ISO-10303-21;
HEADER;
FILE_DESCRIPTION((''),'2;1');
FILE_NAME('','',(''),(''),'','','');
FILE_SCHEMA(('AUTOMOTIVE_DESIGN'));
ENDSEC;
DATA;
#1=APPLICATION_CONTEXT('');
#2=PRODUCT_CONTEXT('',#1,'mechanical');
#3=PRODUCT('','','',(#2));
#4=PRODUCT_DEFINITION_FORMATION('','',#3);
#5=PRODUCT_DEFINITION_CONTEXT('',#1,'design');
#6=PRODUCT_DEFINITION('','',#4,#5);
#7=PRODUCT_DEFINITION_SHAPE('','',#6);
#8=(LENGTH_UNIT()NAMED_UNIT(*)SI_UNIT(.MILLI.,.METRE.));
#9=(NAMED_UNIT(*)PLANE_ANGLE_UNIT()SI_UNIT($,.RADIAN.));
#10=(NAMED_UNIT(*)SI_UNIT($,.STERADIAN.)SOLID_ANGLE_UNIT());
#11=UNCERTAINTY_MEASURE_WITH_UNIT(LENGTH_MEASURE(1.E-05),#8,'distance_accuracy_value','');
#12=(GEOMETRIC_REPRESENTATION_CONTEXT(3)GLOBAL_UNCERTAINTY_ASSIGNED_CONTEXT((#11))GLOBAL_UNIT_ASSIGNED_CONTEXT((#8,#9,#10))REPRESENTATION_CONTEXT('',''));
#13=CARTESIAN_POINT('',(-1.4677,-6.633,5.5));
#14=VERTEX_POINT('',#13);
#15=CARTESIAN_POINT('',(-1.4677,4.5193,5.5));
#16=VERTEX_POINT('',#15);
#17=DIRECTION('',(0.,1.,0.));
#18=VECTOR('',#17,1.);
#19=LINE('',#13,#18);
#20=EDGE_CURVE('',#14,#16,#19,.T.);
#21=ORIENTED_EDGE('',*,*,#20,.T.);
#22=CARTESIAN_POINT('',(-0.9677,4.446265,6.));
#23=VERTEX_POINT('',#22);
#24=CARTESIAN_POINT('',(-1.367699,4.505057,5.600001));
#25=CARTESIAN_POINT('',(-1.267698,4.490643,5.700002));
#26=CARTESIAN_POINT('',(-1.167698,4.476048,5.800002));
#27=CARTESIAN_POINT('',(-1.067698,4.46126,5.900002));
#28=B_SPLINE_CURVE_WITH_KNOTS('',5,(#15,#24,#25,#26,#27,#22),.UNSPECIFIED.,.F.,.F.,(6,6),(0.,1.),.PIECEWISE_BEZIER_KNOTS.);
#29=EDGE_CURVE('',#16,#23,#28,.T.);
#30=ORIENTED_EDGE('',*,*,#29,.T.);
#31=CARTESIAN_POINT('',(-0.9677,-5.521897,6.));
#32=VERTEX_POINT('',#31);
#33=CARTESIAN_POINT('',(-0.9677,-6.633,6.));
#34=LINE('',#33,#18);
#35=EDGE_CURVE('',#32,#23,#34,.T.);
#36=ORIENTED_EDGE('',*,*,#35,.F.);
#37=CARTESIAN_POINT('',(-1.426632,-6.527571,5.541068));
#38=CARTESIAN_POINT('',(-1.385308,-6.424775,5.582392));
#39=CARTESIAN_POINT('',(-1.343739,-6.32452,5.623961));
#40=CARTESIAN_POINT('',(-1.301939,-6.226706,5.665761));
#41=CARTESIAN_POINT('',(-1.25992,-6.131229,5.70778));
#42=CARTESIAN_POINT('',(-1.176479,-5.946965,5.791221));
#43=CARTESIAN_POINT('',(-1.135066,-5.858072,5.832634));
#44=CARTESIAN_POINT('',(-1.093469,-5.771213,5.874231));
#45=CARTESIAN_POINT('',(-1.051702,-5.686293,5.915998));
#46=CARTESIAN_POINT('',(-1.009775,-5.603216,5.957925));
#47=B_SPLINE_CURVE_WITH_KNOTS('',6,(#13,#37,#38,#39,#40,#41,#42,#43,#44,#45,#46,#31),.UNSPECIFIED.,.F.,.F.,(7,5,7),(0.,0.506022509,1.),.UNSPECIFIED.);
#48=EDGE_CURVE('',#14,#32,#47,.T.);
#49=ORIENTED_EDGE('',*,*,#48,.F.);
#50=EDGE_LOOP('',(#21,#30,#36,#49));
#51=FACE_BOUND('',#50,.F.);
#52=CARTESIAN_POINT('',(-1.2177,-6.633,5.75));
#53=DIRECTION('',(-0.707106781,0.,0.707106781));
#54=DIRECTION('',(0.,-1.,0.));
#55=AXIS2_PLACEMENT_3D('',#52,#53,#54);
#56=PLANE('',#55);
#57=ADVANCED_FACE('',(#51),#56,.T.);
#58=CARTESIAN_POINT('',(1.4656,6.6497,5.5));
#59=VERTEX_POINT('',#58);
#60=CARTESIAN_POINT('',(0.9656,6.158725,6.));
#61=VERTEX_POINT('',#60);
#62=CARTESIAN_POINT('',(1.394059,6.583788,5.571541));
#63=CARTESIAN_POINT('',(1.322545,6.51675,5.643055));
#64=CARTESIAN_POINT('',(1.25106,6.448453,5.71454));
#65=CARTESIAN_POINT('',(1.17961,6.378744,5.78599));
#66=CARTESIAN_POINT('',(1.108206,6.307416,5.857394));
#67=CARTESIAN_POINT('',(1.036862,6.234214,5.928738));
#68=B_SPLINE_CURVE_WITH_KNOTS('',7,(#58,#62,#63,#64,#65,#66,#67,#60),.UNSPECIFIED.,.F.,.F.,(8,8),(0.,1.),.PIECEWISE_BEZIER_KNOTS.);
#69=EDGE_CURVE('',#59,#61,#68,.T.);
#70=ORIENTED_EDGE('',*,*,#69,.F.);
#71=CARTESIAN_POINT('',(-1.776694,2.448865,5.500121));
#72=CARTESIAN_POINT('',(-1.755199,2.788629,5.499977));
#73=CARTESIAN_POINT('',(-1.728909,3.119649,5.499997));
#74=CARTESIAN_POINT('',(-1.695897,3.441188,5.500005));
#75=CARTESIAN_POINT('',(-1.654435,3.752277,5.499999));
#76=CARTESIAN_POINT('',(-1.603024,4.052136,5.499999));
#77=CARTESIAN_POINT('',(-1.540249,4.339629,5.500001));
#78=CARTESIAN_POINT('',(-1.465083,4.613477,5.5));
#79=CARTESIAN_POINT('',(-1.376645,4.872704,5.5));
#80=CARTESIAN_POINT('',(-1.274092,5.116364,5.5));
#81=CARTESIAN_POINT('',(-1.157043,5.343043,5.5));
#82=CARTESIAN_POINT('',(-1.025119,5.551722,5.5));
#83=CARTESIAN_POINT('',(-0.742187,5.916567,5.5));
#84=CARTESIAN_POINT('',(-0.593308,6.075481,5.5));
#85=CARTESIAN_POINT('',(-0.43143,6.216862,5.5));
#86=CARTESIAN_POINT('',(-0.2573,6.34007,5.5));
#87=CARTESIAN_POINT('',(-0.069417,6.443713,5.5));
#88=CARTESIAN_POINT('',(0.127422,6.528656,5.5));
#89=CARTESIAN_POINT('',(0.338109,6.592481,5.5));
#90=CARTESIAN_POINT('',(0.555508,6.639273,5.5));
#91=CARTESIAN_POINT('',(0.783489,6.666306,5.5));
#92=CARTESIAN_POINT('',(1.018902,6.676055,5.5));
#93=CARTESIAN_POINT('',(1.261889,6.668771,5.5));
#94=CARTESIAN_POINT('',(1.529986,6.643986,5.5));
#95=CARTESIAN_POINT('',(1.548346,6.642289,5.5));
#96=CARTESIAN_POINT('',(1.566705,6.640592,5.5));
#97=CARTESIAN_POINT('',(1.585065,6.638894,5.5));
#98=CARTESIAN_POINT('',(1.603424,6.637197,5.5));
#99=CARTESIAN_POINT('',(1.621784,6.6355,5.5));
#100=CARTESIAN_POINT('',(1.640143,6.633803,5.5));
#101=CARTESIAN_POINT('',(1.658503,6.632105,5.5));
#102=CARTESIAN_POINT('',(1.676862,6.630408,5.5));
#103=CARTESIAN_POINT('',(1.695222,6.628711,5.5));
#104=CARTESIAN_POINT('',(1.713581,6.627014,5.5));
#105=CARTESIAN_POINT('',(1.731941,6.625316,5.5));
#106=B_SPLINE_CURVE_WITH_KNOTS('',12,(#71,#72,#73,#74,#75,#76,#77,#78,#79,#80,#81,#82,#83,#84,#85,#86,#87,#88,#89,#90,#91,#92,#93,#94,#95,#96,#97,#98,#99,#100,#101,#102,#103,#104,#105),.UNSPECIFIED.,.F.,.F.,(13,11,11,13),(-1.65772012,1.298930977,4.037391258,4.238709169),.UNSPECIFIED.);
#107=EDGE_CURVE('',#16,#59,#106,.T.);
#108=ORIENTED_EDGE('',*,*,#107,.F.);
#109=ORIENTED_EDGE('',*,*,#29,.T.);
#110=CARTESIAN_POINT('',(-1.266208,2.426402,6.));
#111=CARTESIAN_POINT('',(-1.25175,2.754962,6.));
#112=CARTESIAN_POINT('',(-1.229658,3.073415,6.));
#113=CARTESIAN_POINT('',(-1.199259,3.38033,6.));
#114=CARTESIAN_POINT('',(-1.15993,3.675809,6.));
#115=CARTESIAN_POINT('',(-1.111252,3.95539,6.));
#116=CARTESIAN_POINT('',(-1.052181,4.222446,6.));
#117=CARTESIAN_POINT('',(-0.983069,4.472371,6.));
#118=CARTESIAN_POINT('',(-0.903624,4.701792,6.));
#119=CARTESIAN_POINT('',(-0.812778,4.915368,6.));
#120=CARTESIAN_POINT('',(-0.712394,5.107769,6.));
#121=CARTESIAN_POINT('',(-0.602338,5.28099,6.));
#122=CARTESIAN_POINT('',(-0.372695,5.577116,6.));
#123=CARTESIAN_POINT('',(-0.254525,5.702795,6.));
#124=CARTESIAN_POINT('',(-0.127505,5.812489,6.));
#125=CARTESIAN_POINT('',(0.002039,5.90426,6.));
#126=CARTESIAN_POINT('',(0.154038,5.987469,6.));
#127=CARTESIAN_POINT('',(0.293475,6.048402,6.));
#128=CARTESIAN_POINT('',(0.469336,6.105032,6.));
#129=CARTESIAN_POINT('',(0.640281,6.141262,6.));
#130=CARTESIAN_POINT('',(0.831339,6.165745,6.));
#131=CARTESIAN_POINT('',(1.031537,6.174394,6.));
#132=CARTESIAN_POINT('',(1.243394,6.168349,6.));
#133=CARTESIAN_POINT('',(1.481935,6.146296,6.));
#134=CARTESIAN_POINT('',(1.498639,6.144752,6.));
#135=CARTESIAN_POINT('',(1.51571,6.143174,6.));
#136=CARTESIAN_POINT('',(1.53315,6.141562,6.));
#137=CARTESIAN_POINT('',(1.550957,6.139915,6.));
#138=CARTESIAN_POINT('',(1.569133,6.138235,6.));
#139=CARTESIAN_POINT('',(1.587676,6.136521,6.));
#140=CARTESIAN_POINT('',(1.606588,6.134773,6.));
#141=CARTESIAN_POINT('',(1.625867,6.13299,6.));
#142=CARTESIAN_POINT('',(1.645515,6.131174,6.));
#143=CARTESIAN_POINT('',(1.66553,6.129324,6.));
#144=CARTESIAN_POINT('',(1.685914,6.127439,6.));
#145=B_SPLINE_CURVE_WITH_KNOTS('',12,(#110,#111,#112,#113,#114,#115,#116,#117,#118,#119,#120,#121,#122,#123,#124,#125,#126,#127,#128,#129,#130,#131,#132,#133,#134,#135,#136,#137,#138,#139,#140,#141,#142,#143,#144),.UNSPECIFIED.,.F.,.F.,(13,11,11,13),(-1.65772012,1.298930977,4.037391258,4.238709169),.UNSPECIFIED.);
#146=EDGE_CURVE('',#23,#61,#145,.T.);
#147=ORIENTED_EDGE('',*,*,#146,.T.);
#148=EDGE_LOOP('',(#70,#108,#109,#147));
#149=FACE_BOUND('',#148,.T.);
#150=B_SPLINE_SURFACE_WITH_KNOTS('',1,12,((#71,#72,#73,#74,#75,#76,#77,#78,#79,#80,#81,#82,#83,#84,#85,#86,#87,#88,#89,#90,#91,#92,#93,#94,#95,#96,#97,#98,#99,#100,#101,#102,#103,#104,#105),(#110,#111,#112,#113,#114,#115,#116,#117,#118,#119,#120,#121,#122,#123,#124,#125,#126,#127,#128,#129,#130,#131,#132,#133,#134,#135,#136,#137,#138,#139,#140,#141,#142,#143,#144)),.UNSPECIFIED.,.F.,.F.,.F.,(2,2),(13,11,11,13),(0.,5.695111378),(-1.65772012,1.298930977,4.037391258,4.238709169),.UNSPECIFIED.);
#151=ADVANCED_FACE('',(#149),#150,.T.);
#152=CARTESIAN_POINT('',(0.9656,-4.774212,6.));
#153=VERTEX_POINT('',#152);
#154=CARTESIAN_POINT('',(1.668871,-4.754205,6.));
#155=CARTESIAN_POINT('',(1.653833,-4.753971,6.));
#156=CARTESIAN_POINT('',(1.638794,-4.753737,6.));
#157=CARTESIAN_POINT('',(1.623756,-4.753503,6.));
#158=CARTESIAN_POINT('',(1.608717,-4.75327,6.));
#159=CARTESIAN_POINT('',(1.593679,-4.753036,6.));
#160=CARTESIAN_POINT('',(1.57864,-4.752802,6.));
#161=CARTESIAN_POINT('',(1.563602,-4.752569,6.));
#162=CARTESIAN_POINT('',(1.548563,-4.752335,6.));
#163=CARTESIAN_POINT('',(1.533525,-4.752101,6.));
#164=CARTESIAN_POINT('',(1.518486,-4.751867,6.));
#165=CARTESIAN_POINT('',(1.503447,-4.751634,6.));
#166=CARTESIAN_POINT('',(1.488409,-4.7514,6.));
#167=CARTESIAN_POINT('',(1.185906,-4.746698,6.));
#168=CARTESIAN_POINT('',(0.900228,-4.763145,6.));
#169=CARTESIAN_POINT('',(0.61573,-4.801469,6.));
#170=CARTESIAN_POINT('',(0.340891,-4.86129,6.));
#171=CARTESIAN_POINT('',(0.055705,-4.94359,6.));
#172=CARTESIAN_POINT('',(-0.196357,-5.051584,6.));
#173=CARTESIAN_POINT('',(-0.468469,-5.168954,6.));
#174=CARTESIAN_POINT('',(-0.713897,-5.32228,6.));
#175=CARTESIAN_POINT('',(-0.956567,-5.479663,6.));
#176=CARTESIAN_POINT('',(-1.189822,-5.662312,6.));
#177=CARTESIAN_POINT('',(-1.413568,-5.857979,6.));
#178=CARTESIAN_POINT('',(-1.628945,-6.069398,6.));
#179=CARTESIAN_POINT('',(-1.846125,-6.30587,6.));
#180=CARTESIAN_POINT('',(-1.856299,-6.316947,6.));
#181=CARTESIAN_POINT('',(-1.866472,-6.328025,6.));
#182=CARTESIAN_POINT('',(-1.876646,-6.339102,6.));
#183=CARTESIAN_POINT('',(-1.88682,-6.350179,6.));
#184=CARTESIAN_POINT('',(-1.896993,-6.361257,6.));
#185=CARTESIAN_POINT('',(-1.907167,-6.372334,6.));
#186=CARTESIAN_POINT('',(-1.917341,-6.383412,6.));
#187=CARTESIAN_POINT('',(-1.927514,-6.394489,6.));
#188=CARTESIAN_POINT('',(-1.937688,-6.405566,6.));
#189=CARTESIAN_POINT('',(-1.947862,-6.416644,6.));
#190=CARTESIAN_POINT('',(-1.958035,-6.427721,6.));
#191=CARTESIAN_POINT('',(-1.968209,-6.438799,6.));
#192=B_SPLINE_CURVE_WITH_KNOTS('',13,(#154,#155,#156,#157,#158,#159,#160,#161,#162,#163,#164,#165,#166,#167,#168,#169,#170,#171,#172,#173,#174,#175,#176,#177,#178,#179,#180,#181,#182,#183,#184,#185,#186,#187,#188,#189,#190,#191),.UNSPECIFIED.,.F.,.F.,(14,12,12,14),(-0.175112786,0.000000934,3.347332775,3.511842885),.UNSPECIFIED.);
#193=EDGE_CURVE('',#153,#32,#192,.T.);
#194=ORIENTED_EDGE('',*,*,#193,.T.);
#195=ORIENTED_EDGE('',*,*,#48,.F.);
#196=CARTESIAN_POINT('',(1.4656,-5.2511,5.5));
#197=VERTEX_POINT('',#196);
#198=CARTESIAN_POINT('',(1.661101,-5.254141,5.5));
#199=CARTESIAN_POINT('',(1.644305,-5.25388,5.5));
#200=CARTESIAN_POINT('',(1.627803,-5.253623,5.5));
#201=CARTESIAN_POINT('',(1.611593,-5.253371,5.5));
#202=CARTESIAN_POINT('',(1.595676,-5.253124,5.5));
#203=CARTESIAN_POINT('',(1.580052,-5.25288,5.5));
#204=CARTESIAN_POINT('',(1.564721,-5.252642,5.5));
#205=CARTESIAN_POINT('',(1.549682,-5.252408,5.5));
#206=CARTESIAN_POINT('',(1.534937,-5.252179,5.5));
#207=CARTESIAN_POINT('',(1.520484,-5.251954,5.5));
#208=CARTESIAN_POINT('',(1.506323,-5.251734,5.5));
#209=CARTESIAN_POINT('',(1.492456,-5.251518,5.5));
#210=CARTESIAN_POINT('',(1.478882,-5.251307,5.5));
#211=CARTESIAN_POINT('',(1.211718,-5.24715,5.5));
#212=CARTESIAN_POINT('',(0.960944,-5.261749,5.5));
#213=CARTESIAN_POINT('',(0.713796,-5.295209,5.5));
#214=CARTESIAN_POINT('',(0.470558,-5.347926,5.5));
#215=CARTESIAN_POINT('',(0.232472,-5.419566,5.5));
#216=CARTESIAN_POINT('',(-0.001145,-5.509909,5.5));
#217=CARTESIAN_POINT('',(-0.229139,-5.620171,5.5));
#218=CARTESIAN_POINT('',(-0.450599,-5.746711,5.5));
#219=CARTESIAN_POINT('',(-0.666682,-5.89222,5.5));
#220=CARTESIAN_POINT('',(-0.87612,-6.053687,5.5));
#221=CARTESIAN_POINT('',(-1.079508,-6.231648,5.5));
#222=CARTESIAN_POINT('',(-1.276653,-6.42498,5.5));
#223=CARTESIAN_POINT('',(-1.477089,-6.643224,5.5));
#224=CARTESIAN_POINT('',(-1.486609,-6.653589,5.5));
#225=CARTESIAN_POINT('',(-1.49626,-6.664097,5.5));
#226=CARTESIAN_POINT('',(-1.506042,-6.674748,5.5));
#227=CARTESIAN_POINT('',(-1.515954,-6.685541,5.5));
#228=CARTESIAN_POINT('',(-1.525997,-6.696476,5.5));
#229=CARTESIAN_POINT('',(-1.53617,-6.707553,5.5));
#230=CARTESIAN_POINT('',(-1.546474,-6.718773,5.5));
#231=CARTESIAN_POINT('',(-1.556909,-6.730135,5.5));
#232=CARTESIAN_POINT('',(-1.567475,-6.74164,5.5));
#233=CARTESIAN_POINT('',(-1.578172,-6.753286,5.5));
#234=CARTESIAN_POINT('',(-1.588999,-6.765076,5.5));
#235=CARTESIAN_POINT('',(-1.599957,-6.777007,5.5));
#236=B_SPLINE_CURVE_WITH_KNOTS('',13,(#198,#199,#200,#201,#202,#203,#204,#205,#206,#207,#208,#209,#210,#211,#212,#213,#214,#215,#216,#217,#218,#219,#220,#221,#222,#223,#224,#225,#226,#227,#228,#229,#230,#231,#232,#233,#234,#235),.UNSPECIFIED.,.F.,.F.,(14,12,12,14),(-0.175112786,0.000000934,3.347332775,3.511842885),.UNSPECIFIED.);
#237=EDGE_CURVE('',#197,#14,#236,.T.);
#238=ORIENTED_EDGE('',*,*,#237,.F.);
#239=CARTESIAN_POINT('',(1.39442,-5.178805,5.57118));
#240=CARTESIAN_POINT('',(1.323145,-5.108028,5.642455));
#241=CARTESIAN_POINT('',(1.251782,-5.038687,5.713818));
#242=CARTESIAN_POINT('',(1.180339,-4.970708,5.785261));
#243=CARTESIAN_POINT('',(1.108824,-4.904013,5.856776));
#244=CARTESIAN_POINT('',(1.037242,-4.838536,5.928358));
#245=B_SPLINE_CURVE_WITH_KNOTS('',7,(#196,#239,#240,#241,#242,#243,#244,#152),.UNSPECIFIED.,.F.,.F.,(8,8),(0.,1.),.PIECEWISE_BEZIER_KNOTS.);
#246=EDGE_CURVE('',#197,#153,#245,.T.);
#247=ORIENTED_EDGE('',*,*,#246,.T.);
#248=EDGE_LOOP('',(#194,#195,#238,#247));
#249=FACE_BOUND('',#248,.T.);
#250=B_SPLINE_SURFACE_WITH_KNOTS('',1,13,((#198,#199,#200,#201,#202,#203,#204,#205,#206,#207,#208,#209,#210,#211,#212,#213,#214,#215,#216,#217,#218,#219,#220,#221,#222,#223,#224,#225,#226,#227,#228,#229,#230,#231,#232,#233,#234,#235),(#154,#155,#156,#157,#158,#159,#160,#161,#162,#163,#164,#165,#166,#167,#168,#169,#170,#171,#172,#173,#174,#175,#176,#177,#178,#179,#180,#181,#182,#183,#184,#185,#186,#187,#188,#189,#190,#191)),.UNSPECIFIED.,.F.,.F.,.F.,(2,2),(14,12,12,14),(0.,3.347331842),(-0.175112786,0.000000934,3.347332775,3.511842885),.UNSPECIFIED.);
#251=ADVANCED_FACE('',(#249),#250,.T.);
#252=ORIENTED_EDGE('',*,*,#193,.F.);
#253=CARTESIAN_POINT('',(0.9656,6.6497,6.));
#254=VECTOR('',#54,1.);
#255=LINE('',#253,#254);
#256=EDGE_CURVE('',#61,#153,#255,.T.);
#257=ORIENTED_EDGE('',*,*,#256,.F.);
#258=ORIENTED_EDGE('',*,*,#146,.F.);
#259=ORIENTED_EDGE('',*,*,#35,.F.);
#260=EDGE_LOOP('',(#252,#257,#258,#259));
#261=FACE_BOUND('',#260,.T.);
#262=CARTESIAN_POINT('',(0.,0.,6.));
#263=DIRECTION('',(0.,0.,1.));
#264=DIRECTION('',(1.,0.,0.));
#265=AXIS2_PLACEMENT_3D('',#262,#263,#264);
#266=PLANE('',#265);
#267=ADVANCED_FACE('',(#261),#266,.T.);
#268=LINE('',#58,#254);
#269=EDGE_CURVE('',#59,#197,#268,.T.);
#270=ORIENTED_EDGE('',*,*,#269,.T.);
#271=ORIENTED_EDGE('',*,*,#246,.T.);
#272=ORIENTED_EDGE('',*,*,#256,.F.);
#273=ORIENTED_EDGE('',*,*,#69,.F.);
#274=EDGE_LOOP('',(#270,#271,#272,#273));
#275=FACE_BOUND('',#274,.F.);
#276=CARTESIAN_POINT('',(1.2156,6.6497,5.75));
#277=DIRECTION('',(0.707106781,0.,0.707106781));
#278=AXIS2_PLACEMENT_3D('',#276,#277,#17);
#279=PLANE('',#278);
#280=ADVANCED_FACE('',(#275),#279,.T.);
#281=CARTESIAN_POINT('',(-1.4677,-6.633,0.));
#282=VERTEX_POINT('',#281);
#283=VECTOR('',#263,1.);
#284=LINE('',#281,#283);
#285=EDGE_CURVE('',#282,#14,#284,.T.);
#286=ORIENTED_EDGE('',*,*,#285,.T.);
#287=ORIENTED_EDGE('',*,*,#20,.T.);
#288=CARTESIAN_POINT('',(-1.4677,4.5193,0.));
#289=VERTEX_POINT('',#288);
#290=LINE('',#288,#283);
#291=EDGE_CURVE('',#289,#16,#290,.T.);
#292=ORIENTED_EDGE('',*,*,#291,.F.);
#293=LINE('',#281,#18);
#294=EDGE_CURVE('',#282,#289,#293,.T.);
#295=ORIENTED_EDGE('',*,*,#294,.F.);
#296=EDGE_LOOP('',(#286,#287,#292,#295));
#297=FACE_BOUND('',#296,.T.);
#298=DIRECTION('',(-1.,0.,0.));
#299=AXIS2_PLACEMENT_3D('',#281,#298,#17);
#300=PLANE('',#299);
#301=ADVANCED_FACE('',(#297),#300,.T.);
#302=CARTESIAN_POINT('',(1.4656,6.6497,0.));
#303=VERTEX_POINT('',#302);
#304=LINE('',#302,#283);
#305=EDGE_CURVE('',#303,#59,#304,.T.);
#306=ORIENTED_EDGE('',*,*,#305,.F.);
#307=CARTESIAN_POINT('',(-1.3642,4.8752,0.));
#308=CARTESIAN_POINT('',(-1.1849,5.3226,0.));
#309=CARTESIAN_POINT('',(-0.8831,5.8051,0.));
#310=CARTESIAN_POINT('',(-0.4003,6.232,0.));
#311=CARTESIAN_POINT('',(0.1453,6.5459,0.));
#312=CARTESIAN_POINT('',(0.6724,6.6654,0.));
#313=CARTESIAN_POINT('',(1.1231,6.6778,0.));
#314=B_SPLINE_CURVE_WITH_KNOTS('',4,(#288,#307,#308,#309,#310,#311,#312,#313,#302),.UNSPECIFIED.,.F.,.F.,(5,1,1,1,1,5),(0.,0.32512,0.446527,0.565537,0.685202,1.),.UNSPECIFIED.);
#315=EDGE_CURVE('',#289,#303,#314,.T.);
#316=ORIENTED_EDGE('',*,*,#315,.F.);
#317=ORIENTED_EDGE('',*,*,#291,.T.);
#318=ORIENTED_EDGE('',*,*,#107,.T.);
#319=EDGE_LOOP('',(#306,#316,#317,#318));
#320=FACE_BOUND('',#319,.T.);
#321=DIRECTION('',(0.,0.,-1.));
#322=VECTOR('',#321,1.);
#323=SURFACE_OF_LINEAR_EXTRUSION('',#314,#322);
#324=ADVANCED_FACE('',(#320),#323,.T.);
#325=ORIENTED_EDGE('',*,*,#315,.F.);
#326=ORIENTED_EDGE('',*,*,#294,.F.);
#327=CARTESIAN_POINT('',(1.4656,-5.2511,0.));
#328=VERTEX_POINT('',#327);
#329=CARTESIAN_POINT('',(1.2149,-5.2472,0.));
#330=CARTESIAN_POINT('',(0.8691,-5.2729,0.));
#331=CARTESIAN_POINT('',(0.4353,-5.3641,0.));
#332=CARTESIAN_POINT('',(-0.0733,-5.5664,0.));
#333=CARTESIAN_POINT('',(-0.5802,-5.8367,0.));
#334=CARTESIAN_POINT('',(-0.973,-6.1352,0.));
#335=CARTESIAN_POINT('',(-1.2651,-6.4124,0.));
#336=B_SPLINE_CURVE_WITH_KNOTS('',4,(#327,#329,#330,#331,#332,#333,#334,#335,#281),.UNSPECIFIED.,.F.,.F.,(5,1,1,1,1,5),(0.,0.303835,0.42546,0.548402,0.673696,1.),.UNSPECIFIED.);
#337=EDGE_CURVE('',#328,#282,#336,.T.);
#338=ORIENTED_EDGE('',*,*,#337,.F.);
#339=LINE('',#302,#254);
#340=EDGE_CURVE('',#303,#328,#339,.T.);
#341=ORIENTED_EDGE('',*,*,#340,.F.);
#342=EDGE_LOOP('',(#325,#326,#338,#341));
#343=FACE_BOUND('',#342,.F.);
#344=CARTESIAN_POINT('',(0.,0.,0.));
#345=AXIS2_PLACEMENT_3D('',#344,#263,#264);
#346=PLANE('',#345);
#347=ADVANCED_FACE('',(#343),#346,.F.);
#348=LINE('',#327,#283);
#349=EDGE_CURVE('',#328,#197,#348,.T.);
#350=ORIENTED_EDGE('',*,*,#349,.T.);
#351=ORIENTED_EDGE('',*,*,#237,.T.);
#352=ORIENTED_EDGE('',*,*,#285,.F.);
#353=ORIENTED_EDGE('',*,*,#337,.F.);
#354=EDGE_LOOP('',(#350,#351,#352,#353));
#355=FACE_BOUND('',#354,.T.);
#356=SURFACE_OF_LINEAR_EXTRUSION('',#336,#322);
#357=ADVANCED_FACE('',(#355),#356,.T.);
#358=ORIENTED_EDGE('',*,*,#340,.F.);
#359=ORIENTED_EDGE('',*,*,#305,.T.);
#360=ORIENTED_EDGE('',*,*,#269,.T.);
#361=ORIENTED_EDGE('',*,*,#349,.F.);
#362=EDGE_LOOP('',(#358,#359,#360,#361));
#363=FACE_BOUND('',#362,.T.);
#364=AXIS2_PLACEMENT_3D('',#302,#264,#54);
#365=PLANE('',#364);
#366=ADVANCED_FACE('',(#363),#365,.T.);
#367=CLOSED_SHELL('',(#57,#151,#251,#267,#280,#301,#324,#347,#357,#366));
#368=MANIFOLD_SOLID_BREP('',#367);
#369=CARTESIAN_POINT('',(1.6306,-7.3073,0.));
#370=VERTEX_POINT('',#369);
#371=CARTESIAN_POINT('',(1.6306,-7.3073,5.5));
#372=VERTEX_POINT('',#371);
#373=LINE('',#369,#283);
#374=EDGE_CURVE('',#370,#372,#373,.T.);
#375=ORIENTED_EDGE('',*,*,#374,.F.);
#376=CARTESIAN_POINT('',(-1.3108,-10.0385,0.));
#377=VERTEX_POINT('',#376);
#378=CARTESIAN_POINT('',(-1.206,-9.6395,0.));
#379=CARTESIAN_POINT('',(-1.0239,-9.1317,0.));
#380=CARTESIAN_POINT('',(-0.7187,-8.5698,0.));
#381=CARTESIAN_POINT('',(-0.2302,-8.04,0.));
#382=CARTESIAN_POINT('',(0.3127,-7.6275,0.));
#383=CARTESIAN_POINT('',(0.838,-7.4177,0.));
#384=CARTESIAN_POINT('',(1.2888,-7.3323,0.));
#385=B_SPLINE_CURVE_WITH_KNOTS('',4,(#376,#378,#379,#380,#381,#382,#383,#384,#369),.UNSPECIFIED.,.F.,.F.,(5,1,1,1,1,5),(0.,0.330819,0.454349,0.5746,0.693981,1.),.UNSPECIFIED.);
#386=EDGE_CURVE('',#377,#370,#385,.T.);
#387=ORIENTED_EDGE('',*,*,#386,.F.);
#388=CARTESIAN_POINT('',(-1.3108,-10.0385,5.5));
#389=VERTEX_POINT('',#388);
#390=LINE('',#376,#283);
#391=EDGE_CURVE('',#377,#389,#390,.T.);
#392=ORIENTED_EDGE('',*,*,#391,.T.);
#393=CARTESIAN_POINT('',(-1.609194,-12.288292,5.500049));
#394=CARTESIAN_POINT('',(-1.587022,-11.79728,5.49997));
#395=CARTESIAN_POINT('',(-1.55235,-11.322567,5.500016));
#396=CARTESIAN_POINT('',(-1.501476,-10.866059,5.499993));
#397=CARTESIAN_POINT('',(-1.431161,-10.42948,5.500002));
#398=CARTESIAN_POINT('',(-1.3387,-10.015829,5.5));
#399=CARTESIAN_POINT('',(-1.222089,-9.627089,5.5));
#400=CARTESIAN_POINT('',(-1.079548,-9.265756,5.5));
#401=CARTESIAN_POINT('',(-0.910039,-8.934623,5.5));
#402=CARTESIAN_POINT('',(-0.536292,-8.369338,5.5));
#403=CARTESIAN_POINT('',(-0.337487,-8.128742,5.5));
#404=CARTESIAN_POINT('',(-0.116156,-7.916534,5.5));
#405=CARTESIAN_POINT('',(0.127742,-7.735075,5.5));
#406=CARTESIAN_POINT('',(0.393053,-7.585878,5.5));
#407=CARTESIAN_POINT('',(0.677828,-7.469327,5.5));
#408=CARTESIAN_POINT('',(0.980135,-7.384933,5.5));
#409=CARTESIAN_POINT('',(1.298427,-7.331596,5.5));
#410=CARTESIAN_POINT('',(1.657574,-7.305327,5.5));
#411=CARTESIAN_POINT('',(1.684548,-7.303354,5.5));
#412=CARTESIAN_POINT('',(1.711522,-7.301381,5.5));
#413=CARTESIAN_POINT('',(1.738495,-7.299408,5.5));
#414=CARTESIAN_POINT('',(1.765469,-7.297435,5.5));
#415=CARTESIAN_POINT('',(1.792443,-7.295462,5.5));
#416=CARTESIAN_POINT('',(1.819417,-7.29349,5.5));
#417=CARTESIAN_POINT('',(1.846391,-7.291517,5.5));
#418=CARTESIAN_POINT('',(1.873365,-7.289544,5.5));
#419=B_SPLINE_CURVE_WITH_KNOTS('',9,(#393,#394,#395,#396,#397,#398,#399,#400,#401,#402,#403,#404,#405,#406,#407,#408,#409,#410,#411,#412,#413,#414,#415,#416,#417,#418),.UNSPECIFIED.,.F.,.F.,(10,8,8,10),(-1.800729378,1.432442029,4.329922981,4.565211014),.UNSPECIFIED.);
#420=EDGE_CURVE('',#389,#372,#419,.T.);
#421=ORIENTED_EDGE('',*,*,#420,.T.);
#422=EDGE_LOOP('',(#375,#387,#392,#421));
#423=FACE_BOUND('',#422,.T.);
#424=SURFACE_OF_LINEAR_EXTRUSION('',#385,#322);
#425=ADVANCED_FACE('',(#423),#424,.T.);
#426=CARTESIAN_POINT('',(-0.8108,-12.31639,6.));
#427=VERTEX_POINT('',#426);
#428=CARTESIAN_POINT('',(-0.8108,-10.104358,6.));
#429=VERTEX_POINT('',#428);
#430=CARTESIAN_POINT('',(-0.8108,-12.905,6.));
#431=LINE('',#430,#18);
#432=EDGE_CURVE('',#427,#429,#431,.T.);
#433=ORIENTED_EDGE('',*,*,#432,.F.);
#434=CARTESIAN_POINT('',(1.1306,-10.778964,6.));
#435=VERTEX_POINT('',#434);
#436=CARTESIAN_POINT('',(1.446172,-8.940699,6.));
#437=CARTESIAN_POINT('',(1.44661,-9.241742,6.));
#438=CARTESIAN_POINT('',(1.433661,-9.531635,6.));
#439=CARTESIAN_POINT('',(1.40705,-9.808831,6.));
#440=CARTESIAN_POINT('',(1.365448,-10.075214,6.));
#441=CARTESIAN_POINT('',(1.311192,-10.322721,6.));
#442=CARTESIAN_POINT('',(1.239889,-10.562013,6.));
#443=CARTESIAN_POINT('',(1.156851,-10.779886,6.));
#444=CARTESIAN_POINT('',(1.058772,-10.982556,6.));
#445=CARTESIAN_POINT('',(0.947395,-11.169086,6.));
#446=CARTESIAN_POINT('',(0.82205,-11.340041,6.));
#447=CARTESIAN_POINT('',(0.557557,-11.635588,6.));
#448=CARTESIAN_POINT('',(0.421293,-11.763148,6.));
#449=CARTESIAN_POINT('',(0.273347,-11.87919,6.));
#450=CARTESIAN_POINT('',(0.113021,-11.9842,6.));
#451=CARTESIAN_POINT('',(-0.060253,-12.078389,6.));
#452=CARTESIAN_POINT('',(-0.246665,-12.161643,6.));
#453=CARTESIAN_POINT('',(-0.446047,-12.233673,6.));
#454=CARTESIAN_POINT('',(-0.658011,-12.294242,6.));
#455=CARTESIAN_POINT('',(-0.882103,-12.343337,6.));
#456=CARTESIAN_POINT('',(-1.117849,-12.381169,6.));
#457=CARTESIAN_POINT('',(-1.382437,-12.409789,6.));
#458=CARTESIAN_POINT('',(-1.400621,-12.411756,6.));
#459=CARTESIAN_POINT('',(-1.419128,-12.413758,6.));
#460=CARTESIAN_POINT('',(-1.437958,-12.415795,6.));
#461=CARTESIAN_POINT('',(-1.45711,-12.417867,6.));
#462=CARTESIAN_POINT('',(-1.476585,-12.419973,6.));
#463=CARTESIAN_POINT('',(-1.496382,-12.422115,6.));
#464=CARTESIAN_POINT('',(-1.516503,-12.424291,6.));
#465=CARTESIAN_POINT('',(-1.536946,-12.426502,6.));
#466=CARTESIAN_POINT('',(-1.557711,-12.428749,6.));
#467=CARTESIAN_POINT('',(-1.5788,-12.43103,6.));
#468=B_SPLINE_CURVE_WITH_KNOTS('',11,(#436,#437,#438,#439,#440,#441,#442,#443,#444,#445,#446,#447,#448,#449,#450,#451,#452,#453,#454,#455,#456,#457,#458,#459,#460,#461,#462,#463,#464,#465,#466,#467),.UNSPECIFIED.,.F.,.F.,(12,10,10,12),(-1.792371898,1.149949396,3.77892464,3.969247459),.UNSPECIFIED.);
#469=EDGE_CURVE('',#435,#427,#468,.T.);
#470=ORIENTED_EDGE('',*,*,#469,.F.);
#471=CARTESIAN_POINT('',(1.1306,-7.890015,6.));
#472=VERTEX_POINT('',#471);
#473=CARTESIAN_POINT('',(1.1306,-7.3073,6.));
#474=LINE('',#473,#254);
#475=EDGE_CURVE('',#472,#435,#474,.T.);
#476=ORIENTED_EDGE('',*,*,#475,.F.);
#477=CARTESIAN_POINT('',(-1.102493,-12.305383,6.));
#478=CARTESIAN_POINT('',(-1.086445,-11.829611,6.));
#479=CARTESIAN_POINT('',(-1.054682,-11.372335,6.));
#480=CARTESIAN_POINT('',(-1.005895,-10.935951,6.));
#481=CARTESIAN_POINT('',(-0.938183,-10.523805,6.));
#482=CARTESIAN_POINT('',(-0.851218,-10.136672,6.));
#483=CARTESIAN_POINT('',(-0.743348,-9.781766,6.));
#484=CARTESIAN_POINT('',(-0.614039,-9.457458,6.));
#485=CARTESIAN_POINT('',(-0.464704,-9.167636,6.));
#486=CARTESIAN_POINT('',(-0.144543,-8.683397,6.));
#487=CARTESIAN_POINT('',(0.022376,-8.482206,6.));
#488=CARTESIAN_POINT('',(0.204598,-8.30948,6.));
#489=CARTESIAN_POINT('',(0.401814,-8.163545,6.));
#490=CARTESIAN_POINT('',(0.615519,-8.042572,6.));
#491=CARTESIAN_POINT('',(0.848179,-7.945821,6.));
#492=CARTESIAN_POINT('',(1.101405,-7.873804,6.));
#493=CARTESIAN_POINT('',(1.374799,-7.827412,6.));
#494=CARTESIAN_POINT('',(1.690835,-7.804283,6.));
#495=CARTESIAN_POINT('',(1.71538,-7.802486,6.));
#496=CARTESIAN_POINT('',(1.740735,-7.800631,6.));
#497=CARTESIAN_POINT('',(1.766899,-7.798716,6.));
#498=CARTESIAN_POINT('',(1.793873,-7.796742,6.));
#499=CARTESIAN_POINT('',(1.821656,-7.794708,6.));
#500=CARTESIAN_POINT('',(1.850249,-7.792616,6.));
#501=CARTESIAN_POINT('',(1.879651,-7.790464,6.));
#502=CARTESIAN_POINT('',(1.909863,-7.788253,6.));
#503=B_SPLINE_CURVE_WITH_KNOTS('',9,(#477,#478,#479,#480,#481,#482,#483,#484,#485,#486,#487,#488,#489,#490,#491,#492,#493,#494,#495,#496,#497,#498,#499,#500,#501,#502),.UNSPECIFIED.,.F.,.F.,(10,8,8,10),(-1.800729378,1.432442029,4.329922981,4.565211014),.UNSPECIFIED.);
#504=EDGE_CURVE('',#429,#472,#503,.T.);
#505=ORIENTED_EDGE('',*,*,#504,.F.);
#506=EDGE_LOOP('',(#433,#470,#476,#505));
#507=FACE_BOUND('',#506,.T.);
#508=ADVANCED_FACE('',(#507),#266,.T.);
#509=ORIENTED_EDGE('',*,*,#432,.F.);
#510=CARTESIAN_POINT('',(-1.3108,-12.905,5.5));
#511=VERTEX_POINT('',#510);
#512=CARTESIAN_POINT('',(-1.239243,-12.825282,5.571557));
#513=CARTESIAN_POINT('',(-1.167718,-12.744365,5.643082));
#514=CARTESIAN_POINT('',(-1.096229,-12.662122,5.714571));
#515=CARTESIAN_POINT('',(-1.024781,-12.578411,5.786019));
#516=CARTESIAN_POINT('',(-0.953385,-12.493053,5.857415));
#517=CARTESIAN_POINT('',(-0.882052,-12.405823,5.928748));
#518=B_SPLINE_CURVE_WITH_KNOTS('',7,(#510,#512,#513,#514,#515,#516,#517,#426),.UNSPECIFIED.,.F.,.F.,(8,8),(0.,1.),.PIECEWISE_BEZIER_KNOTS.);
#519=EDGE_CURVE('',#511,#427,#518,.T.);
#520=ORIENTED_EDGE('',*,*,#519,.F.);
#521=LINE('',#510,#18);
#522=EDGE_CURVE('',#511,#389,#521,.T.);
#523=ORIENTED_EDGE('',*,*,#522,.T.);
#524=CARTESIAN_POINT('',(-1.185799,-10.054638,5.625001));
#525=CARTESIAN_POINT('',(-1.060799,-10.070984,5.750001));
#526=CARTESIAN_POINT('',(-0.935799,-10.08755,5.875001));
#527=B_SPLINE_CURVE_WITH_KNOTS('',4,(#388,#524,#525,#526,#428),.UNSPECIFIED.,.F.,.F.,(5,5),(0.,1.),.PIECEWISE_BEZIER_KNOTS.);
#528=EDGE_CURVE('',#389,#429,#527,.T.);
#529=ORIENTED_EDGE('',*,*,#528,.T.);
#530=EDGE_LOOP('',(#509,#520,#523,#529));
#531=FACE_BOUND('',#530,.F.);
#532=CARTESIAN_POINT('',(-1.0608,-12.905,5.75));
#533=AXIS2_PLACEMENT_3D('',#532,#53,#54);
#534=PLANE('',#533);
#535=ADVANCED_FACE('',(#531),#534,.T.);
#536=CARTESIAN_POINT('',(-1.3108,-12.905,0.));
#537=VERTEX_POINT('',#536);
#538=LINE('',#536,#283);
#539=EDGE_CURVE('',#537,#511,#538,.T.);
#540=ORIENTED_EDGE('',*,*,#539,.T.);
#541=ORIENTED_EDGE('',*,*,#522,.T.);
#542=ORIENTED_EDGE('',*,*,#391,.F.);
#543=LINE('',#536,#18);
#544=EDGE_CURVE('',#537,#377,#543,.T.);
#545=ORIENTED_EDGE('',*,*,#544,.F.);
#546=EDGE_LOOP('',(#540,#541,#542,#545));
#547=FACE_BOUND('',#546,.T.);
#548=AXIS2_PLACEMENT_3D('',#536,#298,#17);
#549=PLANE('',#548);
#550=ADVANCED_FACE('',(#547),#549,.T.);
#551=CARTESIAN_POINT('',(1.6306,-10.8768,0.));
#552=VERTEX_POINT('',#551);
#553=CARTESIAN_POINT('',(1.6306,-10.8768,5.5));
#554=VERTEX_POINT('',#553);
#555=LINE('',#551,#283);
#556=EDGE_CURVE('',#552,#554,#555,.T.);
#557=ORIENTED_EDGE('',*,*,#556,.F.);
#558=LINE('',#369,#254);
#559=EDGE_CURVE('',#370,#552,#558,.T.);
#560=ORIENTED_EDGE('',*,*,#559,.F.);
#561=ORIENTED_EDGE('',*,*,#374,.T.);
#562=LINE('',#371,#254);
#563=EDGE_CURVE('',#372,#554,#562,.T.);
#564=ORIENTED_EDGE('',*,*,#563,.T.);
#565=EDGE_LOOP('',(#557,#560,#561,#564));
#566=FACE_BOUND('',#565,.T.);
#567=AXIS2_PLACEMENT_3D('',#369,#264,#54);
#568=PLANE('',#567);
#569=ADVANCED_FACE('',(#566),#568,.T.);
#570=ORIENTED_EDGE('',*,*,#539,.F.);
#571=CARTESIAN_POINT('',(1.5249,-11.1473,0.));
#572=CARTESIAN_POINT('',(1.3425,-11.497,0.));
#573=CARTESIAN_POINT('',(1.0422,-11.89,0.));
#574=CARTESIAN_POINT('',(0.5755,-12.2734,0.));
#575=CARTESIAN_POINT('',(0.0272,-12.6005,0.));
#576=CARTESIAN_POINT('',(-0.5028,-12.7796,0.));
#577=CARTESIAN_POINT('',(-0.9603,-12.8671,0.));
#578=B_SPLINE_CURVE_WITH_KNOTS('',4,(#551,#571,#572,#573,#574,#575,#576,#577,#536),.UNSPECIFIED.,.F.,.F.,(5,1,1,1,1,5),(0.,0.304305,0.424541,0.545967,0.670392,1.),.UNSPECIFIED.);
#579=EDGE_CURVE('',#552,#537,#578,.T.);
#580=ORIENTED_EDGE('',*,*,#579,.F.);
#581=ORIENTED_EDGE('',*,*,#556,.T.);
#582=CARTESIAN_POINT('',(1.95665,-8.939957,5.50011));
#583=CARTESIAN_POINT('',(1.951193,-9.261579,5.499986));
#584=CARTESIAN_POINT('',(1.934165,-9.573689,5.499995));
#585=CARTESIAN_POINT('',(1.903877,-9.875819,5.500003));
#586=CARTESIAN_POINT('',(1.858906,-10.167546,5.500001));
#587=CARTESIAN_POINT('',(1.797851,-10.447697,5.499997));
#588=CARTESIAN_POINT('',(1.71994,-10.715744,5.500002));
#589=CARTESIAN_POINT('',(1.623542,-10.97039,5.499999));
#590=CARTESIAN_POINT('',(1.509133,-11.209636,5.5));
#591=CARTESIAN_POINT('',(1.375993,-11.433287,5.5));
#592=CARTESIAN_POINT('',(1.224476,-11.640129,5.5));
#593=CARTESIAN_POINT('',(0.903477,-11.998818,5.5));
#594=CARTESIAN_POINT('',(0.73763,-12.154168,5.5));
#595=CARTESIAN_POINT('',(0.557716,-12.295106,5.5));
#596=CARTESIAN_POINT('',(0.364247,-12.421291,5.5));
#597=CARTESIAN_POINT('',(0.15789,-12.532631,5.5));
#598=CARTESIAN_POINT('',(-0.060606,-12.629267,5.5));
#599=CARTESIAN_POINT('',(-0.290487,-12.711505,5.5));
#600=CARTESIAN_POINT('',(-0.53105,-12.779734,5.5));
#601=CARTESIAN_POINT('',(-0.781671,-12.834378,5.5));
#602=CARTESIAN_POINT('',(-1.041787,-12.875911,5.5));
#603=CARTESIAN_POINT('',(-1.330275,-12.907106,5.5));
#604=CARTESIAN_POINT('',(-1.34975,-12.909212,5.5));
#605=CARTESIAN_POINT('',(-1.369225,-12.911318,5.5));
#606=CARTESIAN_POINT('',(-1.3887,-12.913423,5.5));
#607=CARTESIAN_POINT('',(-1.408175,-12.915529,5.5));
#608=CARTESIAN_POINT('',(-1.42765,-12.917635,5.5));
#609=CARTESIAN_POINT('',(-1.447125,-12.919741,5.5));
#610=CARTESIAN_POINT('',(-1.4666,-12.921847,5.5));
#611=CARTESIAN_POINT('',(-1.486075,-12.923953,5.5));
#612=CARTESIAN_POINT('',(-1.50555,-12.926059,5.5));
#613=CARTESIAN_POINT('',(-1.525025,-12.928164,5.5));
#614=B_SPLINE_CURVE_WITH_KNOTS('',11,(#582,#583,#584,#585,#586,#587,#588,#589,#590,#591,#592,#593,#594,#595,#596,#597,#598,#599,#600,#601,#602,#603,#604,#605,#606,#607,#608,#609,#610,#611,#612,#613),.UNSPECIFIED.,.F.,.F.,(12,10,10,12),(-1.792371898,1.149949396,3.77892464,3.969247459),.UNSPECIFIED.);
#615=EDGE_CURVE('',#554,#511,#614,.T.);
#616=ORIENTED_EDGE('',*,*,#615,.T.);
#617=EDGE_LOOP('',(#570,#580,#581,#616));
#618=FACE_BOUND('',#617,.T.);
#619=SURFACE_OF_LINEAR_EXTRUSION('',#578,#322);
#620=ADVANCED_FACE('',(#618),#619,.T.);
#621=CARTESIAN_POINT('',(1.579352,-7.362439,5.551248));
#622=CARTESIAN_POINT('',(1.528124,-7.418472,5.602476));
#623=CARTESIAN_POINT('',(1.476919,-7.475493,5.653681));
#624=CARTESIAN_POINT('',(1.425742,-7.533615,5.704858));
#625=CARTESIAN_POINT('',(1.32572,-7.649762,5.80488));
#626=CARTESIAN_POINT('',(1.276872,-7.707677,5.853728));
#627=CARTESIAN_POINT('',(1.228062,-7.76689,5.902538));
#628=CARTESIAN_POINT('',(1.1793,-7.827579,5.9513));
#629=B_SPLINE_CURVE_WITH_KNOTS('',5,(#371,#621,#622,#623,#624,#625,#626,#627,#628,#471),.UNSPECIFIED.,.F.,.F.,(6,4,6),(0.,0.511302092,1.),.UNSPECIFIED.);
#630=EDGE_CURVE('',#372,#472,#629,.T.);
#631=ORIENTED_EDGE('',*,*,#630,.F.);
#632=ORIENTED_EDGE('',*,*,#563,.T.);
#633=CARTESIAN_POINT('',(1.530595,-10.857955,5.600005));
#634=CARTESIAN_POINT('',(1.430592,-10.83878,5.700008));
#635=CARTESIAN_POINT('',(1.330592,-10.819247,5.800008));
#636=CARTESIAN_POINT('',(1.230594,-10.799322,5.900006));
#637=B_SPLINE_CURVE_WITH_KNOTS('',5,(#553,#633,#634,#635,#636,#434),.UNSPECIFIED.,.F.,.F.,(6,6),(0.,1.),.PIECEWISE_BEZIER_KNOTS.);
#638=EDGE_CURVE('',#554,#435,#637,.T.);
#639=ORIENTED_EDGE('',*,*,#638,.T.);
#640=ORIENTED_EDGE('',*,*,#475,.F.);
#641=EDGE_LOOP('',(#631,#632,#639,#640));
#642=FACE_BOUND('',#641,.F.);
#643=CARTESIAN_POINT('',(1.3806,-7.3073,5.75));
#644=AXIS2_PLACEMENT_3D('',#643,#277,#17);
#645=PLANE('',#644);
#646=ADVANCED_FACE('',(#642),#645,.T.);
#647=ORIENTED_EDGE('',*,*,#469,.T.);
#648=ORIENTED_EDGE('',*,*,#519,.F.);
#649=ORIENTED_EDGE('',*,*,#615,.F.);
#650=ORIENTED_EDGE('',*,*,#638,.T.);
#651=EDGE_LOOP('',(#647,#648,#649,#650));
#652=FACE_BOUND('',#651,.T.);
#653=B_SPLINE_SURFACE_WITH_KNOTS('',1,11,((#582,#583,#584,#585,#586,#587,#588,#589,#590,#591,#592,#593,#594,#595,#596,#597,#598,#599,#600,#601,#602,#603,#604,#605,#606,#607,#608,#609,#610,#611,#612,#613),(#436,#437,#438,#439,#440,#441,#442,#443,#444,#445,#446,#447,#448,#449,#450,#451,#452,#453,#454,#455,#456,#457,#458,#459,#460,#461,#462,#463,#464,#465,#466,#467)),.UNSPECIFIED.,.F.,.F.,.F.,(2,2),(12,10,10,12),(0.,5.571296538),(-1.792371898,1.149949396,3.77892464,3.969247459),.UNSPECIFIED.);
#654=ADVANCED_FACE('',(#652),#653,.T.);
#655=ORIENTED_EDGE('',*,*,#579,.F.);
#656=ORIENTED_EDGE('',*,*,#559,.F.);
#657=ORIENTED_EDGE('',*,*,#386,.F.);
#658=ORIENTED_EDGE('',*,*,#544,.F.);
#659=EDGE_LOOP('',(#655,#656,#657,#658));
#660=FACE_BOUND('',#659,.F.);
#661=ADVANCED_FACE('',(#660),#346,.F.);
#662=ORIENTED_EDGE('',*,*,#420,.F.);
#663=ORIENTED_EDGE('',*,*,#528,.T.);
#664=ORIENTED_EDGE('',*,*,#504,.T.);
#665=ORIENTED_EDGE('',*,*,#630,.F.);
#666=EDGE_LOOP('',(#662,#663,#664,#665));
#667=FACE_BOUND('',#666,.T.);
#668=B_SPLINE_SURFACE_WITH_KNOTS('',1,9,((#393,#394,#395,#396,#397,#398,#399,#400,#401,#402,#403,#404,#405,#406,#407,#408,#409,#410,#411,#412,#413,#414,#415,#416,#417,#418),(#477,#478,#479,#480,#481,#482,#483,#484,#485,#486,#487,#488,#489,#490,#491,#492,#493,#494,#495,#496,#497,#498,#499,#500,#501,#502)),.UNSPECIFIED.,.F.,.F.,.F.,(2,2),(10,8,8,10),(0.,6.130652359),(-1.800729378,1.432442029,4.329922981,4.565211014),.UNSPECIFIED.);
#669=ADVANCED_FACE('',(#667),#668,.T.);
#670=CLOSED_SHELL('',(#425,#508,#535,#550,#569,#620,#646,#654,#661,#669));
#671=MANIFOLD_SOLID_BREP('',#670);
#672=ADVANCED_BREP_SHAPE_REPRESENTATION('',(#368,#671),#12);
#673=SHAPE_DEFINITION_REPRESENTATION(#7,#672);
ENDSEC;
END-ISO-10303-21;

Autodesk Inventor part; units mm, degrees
ref_plane "YZ Plane" through (0, 0, 0) normal (1, 0, 0) x (0, 1, 0)
ref_plane "XZ Plane" through (0, 0, 0) normal (0, 1, 0) x (-1, 0, 0)
ref_plane "XY Plane" through (0, 0, 0) normal (0, 0, 1) x (1, 0, 0)
sketch "Szkic1" plane through (0, 0, 0) normal (0, 0, 1) x (1, 0, 0)
  line L0 (-1.3108, -12.905) -> (-1.3108, -10.0385)
  spline S0 degree 4 poles (1.6306, -10.8768) (1.5249, -11.1473) (1.3425, -11.497) (1.0422, -11.89) (0.5755, -12.2734) (0.0272, -12.6005) (-0.5028, -12.7796) (-0.9603, -12.8671) (-1.3108, -12.905) knots 0 0 0 0 0 0.304305 0.424541 0.545967 0.670392 1 1 1 1 1
  line L1 (1.6306, -7.3073) -> (1.6306, -10.8768)
  spline S1 degree 4 poles (-1.3108, -10.0385) (-1.206, -9.6395) (-1.0239, -9.1317) (-0.7187, -8.5698) (-0.2302, -8.04) (0.3127, -7.6275) (0.838, -7.4177) (1.2888, -7.3323) (1.6306, -7.3073) knots 0 0 0 0 0 0.330819 0.454349 0.5746 0.693981 1 1 1 1 1
  line L2 (1.4656, 6.6497) -> (1.4656, -5.2511)
  spline S2 degree 4 poles (-1.4677, 4.5193) (-1.3642, 4.8752) (-1.1849, 5.3226) (-0.8831, 5.8051) (-0.4003, 6.232) (0.1453, 6.5459) (0.6724, 6.6654) (1.1231, 6.6778) (1.4656, 6.6497) knots 0 0 0 0 0 0.32512 0.446527 0.565537 0.685202 1 1 1 1 1
  line L3 (-1.4677, -6.633) -> (-1.4677, 4.5193)
  spline S3 degree 4 poles (1.4656, -5.2511) (1.2149, -5.2472) (0.8691, -5.2729) (0.4353, -5.3641) (-0.0733, -5.5664) (-0.5802, -5.8367) (-0.973, -6.1352) (-1.2651, -6.4124) (-1.4677, -6.633) knots 0 0 0 0 0 0.303835 0.42546 0.548402 0.673696 1 1 1 1 1
  point P0 (0, 0)
  point P1 (-1.1027, -9.3964)
  point P2 (-0.8481, -8.8578)
  point P3 (-0.5505, -8.4115)
  point P4 (-0.2114, -8.0475)
  point P5 (0.171, -7.7579)
  point P6 (0.6007, -7.5381)
  point P7 (1.0846, -7.387)
  point P8 (1.4326, -11.2981)
  point P9 (1.1911, -11.6655)
  point P10 (0.9057, -11.9842)
  point P11 (0.5741, -12.2575)
  point P12 (0.1924, -12.4873)
  point P13 (-0.2447, -12.6734)
  point P14 (-0.7436, -12.8138)
  point P15 (-1.2615, 5.0896)
  point P16 (-1.0108, 5.5545)
  point P17 (-0.7192, 5.9272)
  point P18 (-0.3866, 6.2187)
  point P19 (-0.0096, 6.4362)
  point P20 (0.4186, 6.5827)
  point P21 (0.9069, 6.656)
  point P22 (1.0656, -5.2667)
  point P23 (0.6788, -5.3253)
  point P24 (0.303, -5.427)
  point P25 (-0.0637, -5.5723)
  point P26 (-0.423, -5.7628)
  point P27 (-0.7762, -6.001)
  point P28 (-1.1243, -6.2899)
extrude "Wyciągnięcie proste1" add sketch "Szkic1" along normal blind 6
chamfer "Faza1" distance 0.5 angle 45 8 edges at (-1.3108, -11.4717, 6) (-0.2598, -8.0923, 6) (1.6306, -9.0921, 6) (0.5252, -12.2913, 6) (-0.1065, -5.5924, 6) (-1.4677, -1.0569, 6) (-0.4068, 6.204, 6) (1.4656, 0.6993, 6)
properties part number "literai"
